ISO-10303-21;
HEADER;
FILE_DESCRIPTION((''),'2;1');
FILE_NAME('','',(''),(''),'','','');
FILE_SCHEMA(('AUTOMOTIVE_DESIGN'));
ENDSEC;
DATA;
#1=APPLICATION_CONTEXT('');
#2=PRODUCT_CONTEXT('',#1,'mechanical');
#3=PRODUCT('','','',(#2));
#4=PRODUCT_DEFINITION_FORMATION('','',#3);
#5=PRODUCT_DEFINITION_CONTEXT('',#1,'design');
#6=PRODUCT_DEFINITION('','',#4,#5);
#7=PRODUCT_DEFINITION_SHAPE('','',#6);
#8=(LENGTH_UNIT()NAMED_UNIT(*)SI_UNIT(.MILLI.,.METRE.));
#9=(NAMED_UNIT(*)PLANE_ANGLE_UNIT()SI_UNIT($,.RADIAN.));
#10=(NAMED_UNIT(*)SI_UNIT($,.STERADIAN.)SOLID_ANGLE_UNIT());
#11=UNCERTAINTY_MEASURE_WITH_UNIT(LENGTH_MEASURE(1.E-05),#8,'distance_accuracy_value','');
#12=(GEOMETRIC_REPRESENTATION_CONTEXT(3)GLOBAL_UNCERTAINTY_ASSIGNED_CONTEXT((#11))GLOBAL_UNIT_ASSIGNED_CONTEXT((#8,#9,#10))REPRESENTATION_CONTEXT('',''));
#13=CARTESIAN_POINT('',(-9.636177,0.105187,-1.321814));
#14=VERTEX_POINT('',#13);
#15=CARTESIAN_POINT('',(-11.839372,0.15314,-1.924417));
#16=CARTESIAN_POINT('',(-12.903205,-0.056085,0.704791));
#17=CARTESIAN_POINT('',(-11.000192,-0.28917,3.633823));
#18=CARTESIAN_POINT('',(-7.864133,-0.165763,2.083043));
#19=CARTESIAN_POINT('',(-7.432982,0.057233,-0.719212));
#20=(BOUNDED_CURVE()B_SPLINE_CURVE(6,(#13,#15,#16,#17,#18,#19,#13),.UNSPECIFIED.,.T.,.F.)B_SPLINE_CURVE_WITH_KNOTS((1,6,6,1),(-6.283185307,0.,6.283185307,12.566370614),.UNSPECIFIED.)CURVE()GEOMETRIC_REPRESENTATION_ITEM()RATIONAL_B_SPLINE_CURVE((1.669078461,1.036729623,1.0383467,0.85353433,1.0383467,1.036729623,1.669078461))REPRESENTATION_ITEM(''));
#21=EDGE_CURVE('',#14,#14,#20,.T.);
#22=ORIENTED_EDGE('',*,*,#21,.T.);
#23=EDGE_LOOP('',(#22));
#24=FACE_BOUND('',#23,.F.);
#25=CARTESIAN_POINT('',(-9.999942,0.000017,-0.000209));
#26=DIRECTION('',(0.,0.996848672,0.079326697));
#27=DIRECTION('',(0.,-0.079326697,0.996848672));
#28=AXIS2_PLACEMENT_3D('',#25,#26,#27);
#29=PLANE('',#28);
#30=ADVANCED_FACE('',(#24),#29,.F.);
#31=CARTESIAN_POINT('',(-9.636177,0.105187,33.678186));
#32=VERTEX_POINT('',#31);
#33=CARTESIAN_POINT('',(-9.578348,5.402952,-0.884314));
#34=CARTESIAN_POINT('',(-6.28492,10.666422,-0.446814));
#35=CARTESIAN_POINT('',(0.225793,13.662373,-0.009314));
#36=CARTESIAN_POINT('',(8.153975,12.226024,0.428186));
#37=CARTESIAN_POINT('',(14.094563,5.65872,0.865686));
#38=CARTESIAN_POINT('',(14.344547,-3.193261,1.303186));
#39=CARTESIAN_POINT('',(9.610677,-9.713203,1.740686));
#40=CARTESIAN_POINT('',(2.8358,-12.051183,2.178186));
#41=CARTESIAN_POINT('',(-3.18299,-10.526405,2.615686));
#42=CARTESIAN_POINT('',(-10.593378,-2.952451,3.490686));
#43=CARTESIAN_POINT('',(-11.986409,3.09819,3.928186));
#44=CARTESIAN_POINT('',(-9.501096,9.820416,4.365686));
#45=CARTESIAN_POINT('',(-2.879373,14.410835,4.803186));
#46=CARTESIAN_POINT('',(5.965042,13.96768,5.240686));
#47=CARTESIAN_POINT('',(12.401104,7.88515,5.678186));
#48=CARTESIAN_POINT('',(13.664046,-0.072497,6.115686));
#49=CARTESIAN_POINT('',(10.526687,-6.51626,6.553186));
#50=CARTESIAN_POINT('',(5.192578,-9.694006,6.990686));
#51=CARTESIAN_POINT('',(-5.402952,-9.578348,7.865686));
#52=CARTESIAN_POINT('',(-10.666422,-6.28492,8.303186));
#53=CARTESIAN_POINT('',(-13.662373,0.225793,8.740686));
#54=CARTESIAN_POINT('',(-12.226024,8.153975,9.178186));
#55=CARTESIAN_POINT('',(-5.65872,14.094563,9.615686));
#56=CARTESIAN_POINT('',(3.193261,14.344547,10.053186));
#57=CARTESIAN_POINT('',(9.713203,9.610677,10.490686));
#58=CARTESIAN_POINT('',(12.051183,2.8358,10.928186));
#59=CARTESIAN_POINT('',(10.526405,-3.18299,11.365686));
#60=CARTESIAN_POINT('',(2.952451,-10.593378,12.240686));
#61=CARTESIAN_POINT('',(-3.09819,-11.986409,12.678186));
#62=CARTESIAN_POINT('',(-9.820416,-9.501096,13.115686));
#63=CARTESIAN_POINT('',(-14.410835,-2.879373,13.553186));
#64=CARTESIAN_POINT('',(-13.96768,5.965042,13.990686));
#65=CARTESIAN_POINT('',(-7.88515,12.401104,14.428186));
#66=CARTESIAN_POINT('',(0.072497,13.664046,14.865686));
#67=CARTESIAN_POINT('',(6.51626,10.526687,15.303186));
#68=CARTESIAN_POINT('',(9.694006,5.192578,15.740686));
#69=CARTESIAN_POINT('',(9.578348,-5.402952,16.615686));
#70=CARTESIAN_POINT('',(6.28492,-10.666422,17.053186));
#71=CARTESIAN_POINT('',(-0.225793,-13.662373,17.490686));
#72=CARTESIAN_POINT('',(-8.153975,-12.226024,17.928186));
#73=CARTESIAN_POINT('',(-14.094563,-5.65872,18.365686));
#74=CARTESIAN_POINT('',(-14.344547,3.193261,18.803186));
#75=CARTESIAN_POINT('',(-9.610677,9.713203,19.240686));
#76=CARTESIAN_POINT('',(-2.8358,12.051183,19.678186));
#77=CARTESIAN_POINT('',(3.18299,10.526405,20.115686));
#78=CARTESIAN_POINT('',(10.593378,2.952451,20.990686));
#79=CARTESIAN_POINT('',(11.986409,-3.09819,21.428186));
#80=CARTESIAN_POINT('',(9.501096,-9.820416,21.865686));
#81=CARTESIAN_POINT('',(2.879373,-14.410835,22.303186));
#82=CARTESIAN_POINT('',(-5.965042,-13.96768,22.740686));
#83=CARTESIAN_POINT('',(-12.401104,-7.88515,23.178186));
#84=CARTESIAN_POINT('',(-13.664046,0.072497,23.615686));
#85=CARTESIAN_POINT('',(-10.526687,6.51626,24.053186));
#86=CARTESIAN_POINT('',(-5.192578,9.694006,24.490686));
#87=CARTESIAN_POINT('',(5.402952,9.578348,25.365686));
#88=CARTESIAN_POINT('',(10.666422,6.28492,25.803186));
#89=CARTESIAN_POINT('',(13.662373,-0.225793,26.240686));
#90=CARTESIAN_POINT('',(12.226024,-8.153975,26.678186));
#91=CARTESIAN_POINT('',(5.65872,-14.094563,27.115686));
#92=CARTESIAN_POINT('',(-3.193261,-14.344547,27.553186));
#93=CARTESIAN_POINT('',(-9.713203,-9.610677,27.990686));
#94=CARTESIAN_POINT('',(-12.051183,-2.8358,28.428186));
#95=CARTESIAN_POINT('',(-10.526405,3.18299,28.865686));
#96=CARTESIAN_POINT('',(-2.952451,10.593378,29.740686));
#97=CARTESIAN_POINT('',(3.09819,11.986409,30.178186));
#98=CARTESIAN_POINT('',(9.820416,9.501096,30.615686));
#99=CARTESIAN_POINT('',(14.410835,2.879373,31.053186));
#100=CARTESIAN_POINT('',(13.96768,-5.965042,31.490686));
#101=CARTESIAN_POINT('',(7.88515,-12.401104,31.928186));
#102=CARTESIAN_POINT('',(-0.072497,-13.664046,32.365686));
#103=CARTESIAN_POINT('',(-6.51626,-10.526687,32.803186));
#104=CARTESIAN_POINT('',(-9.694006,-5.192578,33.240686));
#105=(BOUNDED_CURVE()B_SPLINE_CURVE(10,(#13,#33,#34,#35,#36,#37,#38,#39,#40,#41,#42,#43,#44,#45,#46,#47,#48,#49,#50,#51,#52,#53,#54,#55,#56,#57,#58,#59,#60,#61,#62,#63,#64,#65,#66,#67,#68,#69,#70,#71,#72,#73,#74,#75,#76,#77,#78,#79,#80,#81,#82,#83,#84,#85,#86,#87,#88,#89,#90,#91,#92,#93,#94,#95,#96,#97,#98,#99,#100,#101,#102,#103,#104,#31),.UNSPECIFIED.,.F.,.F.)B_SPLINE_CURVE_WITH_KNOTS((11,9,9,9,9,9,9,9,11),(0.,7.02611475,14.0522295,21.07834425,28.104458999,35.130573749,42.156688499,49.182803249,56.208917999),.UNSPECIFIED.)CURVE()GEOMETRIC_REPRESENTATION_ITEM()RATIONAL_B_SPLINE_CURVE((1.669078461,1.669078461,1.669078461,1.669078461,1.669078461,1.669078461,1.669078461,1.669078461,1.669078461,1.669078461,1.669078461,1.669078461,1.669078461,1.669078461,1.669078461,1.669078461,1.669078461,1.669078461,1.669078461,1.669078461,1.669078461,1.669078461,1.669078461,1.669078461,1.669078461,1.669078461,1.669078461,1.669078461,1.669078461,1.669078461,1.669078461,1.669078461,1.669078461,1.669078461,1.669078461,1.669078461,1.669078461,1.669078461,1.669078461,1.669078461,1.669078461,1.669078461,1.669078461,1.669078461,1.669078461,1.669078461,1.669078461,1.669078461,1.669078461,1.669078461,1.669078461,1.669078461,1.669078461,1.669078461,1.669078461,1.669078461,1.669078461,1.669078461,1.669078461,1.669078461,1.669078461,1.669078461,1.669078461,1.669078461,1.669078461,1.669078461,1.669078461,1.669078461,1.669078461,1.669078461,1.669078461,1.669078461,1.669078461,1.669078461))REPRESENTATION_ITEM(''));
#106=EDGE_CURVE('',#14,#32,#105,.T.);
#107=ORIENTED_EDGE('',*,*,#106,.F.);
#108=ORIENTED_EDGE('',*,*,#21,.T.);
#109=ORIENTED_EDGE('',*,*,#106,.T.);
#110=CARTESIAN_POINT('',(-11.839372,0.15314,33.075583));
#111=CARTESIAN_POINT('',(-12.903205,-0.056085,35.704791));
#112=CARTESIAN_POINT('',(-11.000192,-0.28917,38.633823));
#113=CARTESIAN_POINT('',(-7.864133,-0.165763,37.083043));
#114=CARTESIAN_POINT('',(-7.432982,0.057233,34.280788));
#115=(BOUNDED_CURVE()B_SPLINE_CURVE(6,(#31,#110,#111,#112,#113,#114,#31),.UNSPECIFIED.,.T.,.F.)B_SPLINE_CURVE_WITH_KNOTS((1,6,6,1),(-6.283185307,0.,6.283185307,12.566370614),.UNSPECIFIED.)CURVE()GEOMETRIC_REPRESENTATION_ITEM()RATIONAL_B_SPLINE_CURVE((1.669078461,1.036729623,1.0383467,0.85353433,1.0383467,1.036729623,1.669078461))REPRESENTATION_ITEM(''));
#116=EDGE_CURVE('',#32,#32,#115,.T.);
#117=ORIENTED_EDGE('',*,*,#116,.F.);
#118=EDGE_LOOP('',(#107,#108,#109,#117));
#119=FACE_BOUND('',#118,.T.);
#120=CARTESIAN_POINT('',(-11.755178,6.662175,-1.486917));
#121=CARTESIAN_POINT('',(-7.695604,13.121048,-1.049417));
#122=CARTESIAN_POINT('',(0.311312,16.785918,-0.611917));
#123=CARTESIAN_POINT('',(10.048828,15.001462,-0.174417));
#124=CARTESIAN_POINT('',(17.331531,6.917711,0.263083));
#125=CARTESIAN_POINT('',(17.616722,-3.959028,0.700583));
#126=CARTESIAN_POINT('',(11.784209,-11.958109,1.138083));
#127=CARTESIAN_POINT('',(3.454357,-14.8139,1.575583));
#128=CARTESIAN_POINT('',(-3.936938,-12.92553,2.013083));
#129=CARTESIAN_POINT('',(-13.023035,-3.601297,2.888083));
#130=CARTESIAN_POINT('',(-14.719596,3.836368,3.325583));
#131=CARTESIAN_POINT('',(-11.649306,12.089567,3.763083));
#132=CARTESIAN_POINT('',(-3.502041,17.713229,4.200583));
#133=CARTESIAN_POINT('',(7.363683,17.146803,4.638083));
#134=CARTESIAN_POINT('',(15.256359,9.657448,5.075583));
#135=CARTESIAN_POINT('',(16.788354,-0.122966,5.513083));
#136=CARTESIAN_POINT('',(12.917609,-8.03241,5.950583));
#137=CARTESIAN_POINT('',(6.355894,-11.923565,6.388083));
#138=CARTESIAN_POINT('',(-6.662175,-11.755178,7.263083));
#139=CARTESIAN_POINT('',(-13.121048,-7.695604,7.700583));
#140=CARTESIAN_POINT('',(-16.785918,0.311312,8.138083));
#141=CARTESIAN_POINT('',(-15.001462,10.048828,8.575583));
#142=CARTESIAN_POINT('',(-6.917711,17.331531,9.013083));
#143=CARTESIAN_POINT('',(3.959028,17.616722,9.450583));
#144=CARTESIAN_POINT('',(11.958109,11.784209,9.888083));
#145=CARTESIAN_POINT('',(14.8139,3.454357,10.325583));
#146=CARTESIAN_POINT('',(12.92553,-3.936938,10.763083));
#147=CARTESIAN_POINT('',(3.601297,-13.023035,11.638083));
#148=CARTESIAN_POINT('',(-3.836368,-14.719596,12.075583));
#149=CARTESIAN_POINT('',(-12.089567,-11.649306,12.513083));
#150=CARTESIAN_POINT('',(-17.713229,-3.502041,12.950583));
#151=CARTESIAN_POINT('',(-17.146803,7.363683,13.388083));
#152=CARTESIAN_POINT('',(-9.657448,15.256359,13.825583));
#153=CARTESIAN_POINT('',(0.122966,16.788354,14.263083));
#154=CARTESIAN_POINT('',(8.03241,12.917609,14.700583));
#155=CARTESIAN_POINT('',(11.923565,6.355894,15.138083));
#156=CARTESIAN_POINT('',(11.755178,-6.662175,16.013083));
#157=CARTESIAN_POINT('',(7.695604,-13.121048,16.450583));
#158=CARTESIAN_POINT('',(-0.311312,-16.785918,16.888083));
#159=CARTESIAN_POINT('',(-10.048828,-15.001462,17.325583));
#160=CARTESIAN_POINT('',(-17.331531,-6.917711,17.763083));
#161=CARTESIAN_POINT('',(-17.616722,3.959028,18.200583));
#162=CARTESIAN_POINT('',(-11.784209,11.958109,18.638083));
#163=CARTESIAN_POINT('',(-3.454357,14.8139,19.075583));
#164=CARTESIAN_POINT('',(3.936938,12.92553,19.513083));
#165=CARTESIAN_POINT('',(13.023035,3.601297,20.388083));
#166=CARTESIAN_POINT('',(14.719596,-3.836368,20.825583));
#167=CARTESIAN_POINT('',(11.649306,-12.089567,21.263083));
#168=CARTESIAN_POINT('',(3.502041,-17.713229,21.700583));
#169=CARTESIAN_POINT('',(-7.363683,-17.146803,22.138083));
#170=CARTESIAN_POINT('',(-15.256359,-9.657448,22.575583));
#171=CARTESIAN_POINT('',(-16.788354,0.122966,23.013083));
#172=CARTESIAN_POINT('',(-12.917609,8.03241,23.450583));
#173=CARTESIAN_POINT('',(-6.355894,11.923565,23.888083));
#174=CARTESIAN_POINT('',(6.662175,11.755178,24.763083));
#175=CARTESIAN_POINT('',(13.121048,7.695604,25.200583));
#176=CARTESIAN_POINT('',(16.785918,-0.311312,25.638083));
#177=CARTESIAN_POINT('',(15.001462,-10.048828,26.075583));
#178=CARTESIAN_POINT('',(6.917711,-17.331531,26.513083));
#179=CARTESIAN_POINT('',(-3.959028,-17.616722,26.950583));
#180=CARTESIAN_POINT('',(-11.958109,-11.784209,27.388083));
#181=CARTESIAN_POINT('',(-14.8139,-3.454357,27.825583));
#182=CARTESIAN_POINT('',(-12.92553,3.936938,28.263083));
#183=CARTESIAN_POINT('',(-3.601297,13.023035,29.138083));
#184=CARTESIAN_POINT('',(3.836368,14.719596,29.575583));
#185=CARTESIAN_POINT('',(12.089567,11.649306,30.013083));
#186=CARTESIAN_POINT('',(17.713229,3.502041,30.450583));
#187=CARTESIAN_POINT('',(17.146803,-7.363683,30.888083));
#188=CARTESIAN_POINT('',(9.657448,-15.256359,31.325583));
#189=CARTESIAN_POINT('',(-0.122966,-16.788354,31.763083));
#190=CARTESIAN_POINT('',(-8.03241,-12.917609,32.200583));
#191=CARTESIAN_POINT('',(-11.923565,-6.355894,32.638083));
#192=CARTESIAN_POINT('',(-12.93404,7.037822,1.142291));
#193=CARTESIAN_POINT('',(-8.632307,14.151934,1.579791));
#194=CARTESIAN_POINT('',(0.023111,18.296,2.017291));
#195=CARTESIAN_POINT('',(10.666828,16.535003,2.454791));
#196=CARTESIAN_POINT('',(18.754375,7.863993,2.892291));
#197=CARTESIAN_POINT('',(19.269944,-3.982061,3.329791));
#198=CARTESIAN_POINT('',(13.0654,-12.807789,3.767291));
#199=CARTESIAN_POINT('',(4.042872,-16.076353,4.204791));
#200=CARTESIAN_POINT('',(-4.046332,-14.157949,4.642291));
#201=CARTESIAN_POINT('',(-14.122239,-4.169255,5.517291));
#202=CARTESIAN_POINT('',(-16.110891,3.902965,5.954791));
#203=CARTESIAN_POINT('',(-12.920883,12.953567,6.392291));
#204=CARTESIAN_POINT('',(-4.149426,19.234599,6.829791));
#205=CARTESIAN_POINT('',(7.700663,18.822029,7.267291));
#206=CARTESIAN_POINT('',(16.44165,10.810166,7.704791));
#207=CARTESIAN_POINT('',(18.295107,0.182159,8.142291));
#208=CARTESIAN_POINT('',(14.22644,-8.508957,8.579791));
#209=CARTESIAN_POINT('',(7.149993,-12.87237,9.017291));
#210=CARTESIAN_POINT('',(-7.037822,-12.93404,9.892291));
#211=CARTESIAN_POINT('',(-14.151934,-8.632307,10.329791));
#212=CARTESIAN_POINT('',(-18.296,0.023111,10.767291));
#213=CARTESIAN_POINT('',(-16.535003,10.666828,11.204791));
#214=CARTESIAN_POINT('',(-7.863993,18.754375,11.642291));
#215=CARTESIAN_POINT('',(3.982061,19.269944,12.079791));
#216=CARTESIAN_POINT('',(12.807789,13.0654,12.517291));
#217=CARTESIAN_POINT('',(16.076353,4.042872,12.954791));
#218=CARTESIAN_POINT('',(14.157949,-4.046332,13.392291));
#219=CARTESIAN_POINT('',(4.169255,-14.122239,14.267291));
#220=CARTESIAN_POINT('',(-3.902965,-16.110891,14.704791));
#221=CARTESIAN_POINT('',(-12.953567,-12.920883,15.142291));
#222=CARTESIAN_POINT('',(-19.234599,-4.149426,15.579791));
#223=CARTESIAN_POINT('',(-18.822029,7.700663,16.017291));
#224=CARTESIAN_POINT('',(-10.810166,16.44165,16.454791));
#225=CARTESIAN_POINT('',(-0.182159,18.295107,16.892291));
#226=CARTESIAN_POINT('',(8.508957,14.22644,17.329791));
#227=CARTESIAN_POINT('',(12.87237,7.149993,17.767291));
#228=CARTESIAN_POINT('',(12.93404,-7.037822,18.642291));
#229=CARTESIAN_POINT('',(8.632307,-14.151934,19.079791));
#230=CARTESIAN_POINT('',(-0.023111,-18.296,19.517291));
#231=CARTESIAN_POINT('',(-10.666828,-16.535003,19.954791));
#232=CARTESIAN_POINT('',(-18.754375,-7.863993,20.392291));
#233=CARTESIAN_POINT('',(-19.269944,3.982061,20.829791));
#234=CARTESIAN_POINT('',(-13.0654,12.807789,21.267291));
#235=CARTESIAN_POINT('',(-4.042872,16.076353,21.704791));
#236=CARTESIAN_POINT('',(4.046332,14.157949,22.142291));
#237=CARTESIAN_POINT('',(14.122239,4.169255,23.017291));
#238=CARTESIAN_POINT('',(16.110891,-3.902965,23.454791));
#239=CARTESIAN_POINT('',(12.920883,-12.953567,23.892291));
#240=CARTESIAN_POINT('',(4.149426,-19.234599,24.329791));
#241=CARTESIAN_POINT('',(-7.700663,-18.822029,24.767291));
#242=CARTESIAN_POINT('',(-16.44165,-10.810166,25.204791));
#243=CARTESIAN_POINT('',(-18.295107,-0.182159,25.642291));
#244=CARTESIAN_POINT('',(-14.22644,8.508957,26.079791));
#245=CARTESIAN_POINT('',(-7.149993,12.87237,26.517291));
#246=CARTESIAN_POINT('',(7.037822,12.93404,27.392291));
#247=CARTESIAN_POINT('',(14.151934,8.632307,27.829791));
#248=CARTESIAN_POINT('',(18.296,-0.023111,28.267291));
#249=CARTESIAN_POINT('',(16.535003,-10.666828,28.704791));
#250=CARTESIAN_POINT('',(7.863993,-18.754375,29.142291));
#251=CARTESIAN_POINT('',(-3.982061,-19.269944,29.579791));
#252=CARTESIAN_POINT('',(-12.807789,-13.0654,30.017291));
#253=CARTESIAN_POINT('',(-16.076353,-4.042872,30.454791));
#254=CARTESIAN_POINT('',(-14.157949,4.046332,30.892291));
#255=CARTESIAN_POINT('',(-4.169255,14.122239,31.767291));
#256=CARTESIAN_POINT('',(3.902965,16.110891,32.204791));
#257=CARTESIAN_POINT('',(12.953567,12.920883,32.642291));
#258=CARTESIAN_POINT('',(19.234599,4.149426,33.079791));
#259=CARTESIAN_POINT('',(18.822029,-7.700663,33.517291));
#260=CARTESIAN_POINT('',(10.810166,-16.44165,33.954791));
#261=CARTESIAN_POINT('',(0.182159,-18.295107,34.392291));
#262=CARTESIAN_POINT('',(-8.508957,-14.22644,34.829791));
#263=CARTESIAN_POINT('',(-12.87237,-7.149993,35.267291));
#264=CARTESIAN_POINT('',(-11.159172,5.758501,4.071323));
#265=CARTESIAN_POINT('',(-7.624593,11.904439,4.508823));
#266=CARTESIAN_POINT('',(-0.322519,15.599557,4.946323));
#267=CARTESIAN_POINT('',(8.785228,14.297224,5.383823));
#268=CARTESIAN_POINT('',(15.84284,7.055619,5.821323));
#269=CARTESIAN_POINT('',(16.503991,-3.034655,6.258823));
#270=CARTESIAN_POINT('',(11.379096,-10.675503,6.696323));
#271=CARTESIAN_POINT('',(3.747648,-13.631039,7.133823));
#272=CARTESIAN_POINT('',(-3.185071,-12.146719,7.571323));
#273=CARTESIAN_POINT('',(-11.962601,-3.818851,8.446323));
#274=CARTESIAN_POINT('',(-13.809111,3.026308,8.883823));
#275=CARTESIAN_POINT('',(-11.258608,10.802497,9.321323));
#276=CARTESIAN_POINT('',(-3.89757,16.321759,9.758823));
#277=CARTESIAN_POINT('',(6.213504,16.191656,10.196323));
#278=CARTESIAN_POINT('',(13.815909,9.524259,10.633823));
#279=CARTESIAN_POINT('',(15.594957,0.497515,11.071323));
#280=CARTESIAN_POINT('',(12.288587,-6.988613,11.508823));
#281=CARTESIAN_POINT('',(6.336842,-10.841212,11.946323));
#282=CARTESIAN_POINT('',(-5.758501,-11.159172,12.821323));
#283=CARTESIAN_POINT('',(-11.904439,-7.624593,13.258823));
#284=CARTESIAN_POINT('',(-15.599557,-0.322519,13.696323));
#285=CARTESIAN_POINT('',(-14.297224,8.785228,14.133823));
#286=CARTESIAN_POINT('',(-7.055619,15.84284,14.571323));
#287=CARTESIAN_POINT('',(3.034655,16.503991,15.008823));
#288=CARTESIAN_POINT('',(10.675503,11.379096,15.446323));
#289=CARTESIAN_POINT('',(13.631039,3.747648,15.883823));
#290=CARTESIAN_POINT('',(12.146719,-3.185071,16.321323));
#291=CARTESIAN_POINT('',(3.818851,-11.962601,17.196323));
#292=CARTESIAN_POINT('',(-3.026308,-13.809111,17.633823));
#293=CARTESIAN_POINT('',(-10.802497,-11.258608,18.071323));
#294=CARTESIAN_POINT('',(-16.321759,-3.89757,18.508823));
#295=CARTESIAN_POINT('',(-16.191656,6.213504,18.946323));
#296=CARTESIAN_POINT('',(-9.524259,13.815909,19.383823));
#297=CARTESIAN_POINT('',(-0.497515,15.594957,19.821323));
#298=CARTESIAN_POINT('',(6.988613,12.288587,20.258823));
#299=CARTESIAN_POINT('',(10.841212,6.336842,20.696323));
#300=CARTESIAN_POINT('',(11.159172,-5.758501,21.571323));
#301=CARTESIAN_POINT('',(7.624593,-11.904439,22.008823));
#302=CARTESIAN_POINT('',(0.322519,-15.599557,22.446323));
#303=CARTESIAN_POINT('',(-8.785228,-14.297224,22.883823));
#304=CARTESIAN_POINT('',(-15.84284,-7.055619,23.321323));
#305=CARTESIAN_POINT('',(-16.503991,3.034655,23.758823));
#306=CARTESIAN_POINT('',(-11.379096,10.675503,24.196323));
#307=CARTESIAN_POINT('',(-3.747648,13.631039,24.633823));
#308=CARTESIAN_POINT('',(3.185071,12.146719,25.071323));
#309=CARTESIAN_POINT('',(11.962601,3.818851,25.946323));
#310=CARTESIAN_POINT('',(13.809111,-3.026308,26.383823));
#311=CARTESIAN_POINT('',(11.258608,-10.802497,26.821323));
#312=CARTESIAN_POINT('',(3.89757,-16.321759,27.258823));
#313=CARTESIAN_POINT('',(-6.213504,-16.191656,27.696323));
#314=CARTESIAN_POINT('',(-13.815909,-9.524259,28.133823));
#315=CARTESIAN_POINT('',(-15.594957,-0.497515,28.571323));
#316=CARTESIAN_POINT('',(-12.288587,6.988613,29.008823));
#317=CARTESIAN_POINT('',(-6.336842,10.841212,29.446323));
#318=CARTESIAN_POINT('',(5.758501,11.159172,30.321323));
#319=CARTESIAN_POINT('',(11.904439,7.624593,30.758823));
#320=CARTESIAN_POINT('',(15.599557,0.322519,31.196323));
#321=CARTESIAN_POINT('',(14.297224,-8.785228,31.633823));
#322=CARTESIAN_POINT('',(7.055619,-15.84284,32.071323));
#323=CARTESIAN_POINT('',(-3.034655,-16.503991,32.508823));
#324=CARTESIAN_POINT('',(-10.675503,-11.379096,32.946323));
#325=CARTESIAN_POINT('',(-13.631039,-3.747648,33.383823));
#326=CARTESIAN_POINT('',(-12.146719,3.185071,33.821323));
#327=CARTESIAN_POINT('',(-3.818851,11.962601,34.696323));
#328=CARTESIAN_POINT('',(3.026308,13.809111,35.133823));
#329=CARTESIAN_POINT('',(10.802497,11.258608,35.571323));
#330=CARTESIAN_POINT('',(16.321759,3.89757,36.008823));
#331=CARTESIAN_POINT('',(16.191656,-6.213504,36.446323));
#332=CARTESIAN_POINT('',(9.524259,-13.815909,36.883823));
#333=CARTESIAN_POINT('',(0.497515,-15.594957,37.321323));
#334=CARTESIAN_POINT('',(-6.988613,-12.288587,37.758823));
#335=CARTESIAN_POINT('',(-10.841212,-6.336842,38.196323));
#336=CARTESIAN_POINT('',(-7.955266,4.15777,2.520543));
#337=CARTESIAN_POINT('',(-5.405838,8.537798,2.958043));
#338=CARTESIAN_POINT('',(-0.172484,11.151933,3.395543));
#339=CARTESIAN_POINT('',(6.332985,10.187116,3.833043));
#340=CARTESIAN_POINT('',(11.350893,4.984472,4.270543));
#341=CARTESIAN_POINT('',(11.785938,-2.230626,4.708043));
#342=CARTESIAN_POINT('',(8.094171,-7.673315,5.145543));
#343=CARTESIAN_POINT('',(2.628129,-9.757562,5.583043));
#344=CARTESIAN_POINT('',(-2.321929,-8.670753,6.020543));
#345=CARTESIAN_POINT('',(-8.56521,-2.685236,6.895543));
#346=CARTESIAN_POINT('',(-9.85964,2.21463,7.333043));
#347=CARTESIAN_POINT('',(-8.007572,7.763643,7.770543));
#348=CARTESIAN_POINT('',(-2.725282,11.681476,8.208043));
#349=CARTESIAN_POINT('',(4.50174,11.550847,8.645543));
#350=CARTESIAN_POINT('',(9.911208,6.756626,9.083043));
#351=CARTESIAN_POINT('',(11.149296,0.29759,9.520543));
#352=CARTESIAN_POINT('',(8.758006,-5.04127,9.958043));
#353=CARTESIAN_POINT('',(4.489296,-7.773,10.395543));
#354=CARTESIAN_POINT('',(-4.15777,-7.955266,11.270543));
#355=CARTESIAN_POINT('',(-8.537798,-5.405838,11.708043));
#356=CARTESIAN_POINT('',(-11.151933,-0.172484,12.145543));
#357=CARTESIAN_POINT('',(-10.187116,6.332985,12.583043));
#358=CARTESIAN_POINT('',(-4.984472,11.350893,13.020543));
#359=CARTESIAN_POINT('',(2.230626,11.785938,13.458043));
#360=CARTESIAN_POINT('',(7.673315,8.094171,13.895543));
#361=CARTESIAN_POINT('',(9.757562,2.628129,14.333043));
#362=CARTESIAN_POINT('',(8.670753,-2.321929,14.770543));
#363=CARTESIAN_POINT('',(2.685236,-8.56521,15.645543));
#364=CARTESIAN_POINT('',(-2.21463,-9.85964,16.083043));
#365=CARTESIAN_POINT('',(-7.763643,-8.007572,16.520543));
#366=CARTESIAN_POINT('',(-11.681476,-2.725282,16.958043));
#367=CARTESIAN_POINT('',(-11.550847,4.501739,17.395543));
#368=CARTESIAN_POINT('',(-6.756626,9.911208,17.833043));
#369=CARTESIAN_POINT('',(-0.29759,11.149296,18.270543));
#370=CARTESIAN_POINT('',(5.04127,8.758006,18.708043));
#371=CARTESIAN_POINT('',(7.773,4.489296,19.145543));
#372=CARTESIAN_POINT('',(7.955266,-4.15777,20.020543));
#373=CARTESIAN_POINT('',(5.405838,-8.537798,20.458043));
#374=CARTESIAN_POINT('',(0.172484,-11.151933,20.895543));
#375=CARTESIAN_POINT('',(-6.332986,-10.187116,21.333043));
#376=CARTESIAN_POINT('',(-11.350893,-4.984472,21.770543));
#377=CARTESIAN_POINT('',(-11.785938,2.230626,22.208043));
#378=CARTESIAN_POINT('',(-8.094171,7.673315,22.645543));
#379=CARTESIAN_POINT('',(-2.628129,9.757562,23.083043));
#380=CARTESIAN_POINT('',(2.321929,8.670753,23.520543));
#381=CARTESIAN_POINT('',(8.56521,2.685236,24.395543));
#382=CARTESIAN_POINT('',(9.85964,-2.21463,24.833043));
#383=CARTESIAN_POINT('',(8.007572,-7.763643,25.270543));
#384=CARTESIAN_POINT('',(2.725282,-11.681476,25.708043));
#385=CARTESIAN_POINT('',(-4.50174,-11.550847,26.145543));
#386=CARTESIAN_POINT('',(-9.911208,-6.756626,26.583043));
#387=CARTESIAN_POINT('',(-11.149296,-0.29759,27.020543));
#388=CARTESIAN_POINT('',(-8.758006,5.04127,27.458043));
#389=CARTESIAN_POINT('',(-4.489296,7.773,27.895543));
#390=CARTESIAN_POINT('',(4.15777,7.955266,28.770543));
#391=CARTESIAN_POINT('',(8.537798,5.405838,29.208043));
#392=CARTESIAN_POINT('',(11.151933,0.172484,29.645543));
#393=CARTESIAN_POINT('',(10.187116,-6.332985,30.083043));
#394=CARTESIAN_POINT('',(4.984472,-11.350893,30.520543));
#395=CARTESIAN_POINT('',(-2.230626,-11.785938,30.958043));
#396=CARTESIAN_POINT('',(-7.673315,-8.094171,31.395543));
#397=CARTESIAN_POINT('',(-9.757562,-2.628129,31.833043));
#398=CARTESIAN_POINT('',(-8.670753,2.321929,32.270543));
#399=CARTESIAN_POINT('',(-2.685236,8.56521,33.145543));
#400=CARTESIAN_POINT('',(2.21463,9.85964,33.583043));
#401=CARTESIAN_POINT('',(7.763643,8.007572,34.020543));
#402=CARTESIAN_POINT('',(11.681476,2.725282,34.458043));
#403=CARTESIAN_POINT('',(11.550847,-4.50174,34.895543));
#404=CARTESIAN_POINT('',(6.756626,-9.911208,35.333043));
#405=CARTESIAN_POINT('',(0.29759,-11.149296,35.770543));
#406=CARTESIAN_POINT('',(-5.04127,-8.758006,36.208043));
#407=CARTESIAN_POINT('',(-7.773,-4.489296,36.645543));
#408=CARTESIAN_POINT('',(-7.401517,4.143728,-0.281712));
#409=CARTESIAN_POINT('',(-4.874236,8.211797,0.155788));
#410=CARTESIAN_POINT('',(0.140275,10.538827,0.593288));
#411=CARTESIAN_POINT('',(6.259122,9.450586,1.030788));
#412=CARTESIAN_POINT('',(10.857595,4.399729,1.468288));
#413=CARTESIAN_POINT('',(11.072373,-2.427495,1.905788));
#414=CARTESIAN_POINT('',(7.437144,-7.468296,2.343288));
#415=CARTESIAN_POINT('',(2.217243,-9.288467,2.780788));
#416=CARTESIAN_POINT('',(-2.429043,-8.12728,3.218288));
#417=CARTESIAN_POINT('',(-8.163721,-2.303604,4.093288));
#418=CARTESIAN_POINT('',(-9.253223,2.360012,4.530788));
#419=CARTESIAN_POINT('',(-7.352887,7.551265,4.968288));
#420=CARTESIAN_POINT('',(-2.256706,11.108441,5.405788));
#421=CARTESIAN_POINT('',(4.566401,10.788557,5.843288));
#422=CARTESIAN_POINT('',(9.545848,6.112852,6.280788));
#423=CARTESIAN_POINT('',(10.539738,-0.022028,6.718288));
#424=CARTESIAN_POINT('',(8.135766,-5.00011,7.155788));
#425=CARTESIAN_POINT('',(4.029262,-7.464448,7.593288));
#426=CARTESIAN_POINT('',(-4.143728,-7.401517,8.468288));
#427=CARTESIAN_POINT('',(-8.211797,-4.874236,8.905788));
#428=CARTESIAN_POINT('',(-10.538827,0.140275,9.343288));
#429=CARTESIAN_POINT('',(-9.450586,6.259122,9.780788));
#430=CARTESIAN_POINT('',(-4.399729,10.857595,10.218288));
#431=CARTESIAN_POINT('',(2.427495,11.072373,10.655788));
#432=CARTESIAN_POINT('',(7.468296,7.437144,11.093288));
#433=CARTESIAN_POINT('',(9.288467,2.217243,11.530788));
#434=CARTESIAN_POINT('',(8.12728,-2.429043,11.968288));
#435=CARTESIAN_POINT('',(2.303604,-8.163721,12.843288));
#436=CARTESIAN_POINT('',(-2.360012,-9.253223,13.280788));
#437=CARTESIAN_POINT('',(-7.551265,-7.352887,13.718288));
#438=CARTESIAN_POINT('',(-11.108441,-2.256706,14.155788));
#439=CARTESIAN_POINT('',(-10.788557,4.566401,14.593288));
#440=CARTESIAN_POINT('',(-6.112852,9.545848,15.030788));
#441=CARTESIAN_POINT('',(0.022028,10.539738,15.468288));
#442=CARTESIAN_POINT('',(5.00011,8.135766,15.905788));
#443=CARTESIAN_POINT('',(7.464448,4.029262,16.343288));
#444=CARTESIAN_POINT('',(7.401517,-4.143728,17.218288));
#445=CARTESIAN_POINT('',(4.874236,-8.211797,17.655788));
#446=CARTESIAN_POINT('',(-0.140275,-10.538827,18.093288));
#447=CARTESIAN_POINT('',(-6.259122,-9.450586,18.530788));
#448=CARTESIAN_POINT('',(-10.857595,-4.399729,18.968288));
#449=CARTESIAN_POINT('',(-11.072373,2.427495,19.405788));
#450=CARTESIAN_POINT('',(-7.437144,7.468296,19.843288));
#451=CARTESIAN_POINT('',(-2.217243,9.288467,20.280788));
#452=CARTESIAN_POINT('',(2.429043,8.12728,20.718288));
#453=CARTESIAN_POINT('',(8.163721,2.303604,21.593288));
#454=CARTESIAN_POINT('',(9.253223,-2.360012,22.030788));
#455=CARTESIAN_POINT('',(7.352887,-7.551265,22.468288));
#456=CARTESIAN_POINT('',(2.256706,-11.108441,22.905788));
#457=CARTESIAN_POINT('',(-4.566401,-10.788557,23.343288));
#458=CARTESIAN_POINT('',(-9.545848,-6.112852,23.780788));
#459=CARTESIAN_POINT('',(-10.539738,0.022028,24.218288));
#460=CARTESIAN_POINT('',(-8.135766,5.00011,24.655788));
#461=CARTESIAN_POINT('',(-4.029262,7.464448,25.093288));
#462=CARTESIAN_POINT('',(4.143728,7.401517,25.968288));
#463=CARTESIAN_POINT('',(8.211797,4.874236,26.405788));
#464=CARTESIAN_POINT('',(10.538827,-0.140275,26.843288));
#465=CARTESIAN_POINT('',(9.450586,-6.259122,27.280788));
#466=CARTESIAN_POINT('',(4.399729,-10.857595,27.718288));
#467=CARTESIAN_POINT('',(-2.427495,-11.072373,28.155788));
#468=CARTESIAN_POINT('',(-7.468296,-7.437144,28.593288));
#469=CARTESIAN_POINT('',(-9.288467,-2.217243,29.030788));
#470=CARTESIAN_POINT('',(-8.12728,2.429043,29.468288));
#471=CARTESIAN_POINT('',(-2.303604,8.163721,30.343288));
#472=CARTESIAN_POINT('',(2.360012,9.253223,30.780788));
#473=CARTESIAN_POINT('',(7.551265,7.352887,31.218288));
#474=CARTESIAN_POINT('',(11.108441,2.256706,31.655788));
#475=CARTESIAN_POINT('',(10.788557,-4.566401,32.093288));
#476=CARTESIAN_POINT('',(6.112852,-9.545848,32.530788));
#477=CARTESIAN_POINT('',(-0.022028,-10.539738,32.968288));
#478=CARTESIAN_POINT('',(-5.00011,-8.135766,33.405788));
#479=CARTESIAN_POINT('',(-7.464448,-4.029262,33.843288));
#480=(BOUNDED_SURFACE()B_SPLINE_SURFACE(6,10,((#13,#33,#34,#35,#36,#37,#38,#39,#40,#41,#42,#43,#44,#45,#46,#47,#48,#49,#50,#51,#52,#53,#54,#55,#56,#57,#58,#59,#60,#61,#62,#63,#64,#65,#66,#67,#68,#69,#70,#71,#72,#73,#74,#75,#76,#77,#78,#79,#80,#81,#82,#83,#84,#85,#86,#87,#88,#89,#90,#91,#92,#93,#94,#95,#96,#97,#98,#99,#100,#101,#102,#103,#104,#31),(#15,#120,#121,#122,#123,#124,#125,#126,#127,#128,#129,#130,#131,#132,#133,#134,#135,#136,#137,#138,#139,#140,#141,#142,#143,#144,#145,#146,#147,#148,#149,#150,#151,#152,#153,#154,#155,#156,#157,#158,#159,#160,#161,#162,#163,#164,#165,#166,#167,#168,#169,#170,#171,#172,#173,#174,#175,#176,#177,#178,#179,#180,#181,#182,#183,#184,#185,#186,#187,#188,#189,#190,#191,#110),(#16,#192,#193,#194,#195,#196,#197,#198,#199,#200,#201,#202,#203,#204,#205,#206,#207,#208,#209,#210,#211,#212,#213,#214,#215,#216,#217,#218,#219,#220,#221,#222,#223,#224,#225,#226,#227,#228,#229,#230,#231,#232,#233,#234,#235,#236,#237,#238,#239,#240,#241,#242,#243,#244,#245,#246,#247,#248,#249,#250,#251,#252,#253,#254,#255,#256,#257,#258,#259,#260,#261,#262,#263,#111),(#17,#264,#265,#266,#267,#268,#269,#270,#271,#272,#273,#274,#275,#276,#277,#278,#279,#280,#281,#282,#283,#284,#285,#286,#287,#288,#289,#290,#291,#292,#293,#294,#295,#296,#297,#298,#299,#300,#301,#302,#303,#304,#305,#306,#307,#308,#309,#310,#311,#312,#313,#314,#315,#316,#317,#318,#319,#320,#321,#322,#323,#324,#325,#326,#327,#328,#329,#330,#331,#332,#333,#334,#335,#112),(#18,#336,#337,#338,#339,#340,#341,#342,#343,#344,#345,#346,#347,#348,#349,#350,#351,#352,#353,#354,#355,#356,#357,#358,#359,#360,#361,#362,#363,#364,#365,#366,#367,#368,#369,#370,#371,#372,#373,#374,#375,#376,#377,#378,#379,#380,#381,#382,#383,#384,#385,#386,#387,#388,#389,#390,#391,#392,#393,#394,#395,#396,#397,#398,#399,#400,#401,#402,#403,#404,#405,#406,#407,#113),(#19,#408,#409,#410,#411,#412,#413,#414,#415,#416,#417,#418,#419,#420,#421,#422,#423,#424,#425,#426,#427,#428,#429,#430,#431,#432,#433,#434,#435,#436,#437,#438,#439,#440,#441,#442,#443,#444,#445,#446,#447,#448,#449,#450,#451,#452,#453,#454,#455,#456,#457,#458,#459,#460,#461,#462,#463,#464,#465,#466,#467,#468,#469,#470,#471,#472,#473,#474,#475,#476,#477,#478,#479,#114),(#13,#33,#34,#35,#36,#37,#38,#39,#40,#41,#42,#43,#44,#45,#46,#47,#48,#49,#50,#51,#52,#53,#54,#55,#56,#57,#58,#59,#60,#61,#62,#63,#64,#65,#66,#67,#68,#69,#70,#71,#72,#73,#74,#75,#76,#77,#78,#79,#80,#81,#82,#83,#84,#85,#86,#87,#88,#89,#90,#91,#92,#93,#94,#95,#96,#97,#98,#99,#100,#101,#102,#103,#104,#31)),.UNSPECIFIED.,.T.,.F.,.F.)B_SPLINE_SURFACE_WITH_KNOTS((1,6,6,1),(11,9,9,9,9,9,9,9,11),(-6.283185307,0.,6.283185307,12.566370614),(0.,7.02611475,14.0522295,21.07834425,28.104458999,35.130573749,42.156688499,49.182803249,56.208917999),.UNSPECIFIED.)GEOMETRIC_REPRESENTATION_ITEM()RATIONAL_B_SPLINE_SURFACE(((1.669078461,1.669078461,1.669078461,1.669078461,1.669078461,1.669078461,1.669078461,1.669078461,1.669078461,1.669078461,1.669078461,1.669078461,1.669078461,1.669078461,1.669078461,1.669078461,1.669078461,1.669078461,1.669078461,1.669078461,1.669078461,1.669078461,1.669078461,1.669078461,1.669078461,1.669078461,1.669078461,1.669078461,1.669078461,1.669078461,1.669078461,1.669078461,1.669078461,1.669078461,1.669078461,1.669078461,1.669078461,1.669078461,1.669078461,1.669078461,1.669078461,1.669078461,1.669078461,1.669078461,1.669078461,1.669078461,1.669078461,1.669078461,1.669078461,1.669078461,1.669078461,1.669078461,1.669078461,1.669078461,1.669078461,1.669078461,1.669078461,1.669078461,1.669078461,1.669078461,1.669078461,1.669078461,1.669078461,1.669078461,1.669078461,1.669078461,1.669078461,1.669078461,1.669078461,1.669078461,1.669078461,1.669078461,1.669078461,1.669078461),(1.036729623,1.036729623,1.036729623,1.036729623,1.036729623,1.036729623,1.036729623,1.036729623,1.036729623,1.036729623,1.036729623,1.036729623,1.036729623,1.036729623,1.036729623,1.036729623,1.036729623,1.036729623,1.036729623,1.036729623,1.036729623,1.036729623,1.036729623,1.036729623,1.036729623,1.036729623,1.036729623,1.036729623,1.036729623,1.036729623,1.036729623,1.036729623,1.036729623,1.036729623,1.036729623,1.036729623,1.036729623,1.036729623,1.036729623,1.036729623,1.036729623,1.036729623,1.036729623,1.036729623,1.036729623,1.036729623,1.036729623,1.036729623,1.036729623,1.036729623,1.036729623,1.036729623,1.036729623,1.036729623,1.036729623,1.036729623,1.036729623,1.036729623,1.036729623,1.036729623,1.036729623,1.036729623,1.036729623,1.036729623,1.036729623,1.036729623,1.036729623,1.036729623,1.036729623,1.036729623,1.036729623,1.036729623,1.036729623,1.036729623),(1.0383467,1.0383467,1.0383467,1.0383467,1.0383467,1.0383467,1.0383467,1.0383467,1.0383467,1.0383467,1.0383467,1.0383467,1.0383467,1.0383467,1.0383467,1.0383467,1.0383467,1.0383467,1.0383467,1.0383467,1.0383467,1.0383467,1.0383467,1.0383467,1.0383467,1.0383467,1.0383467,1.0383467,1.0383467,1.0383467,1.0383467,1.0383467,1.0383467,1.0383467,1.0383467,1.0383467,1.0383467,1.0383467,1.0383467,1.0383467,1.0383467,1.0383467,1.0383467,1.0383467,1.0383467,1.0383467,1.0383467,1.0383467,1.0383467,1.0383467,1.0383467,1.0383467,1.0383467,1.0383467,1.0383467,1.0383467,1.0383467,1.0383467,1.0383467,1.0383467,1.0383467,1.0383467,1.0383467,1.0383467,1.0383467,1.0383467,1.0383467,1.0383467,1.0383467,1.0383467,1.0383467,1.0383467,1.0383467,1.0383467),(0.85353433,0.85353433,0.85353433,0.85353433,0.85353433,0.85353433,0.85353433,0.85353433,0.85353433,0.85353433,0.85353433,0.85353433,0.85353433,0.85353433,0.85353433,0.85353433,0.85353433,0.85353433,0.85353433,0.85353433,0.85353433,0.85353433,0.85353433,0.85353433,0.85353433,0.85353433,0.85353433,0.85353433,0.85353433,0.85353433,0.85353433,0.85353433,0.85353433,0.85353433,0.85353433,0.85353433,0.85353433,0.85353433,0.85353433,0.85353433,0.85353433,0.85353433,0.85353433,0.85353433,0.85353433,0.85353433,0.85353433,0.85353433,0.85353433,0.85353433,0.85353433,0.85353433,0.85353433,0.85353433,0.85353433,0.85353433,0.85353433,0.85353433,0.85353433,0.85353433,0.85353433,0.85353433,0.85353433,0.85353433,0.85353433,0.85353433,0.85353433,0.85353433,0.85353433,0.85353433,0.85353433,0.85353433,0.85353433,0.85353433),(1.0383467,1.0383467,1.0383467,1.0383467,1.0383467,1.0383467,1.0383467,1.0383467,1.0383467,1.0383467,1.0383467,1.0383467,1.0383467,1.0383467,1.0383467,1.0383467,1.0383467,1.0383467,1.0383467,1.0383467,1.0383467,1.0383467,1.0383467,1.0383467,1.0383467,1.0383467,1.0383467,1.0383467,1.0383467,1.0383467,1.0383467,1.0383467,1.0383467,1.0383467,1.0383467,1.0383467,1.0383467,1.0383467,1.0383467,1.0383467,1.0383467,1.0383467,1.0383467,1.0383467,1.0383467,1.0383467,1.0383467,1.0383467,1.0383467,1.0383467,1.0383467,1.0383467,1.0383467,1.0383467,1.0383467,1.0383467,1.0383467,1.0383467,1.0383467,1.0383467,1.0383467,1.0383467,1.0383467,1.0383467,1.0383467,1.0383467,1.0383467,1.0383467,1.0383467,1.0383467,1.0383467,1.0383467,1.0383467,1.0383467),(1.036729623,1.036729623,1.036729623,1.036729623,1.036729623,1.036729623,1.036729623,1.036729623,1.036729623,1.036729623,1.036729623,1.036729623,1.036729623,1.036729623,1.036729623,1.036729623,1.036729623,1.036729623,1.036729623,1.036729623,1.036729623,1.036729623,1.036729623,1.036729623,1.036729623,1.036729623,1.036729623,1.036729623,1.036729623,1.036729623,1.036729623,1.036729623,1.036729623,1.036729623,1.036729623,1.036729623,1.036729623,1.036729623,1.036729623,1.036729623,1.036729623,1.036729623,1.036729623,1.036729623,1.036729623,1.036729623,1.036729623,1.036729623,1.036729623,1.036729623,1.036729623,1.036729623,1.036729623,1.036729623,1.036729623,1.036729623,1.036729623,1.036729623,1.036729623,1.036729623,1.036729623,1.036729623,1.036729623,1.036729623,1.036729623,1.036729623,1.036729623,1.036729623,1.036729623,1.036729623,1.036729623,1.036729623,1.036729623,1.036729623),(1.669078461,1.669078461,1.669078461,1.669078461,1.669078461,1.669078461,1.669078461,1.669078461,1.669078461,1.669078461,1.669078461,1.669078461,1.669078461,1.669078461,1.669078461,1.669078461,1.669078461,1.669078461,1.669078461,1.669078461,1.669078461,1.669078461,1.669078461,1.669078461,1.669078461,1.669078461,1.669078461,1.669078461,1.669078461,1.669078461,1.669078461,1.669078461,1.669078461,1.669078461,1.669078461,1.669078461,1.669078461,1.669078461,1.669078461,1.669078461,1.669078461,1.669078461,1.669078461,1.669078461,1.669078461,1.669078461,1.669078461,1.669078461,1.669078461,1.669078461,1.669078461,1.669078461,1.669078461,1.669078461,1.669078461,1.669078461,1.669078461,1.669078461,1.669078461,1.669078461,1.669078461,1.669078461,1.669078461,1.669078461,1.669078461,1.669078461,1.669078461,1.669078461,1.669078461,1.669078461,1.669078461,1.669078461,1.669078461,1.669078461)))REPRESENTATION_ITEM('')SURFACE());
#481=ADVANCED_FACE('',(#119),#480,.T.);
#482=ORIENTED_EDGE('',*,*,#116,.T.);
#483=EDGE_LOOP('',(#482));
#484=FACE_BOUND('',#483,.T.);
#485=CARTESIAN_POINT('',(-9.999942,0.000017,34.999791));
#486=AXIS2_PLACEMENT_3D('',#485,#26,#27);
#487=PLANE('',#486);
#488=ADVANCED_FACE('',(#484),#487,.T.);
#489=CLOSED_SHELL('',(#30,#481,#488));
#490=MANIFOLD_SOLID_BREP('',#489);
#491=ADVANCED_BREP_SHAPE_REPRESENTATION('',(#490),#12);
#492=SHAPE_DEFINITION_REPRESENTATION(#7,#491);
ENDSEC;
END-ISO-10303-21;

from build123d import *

# Parameters (mm, degrees)
S_P_R1_PITCH       = 5
S_P_R1_HEIGHT      = 35
S_P_R1_RADIUS      = 10
S_P_R1_START_ANGLE = -180
IZIM2_R            = 1.375


with BuildPart() as part:
    # Süpür1: sweep along a helix
    with BuildLine() as s_p_r1_path:
        add(Helix(S_P_R1_PITCH, S_P_R1_HEIGHT, S_P_R1_RADIUS, center=(0, 0, 0), direction=(0, 0, 1), lefthand=True, mode=Mode.PRIVATE).rotate(Axis((0, 0, 0), (0, 0, 1)), S_P_R1_START_ANGLE))
    # Çizim2 → Süpür1 (sweep)
    with BuildSketch(Plane(origin=(-10, 0, 35), x_dir=(0.2645985827188338, 0.07649938562697271, -0.9613196315595975), z_dir=(8.907111159750512e-14, 0.996848672150329, 0.07932669684366017))):
        Circle(IZIM2_R)
    sweep(path=s_p_r1_path.line, is_frenet=True)


solid = part.part
